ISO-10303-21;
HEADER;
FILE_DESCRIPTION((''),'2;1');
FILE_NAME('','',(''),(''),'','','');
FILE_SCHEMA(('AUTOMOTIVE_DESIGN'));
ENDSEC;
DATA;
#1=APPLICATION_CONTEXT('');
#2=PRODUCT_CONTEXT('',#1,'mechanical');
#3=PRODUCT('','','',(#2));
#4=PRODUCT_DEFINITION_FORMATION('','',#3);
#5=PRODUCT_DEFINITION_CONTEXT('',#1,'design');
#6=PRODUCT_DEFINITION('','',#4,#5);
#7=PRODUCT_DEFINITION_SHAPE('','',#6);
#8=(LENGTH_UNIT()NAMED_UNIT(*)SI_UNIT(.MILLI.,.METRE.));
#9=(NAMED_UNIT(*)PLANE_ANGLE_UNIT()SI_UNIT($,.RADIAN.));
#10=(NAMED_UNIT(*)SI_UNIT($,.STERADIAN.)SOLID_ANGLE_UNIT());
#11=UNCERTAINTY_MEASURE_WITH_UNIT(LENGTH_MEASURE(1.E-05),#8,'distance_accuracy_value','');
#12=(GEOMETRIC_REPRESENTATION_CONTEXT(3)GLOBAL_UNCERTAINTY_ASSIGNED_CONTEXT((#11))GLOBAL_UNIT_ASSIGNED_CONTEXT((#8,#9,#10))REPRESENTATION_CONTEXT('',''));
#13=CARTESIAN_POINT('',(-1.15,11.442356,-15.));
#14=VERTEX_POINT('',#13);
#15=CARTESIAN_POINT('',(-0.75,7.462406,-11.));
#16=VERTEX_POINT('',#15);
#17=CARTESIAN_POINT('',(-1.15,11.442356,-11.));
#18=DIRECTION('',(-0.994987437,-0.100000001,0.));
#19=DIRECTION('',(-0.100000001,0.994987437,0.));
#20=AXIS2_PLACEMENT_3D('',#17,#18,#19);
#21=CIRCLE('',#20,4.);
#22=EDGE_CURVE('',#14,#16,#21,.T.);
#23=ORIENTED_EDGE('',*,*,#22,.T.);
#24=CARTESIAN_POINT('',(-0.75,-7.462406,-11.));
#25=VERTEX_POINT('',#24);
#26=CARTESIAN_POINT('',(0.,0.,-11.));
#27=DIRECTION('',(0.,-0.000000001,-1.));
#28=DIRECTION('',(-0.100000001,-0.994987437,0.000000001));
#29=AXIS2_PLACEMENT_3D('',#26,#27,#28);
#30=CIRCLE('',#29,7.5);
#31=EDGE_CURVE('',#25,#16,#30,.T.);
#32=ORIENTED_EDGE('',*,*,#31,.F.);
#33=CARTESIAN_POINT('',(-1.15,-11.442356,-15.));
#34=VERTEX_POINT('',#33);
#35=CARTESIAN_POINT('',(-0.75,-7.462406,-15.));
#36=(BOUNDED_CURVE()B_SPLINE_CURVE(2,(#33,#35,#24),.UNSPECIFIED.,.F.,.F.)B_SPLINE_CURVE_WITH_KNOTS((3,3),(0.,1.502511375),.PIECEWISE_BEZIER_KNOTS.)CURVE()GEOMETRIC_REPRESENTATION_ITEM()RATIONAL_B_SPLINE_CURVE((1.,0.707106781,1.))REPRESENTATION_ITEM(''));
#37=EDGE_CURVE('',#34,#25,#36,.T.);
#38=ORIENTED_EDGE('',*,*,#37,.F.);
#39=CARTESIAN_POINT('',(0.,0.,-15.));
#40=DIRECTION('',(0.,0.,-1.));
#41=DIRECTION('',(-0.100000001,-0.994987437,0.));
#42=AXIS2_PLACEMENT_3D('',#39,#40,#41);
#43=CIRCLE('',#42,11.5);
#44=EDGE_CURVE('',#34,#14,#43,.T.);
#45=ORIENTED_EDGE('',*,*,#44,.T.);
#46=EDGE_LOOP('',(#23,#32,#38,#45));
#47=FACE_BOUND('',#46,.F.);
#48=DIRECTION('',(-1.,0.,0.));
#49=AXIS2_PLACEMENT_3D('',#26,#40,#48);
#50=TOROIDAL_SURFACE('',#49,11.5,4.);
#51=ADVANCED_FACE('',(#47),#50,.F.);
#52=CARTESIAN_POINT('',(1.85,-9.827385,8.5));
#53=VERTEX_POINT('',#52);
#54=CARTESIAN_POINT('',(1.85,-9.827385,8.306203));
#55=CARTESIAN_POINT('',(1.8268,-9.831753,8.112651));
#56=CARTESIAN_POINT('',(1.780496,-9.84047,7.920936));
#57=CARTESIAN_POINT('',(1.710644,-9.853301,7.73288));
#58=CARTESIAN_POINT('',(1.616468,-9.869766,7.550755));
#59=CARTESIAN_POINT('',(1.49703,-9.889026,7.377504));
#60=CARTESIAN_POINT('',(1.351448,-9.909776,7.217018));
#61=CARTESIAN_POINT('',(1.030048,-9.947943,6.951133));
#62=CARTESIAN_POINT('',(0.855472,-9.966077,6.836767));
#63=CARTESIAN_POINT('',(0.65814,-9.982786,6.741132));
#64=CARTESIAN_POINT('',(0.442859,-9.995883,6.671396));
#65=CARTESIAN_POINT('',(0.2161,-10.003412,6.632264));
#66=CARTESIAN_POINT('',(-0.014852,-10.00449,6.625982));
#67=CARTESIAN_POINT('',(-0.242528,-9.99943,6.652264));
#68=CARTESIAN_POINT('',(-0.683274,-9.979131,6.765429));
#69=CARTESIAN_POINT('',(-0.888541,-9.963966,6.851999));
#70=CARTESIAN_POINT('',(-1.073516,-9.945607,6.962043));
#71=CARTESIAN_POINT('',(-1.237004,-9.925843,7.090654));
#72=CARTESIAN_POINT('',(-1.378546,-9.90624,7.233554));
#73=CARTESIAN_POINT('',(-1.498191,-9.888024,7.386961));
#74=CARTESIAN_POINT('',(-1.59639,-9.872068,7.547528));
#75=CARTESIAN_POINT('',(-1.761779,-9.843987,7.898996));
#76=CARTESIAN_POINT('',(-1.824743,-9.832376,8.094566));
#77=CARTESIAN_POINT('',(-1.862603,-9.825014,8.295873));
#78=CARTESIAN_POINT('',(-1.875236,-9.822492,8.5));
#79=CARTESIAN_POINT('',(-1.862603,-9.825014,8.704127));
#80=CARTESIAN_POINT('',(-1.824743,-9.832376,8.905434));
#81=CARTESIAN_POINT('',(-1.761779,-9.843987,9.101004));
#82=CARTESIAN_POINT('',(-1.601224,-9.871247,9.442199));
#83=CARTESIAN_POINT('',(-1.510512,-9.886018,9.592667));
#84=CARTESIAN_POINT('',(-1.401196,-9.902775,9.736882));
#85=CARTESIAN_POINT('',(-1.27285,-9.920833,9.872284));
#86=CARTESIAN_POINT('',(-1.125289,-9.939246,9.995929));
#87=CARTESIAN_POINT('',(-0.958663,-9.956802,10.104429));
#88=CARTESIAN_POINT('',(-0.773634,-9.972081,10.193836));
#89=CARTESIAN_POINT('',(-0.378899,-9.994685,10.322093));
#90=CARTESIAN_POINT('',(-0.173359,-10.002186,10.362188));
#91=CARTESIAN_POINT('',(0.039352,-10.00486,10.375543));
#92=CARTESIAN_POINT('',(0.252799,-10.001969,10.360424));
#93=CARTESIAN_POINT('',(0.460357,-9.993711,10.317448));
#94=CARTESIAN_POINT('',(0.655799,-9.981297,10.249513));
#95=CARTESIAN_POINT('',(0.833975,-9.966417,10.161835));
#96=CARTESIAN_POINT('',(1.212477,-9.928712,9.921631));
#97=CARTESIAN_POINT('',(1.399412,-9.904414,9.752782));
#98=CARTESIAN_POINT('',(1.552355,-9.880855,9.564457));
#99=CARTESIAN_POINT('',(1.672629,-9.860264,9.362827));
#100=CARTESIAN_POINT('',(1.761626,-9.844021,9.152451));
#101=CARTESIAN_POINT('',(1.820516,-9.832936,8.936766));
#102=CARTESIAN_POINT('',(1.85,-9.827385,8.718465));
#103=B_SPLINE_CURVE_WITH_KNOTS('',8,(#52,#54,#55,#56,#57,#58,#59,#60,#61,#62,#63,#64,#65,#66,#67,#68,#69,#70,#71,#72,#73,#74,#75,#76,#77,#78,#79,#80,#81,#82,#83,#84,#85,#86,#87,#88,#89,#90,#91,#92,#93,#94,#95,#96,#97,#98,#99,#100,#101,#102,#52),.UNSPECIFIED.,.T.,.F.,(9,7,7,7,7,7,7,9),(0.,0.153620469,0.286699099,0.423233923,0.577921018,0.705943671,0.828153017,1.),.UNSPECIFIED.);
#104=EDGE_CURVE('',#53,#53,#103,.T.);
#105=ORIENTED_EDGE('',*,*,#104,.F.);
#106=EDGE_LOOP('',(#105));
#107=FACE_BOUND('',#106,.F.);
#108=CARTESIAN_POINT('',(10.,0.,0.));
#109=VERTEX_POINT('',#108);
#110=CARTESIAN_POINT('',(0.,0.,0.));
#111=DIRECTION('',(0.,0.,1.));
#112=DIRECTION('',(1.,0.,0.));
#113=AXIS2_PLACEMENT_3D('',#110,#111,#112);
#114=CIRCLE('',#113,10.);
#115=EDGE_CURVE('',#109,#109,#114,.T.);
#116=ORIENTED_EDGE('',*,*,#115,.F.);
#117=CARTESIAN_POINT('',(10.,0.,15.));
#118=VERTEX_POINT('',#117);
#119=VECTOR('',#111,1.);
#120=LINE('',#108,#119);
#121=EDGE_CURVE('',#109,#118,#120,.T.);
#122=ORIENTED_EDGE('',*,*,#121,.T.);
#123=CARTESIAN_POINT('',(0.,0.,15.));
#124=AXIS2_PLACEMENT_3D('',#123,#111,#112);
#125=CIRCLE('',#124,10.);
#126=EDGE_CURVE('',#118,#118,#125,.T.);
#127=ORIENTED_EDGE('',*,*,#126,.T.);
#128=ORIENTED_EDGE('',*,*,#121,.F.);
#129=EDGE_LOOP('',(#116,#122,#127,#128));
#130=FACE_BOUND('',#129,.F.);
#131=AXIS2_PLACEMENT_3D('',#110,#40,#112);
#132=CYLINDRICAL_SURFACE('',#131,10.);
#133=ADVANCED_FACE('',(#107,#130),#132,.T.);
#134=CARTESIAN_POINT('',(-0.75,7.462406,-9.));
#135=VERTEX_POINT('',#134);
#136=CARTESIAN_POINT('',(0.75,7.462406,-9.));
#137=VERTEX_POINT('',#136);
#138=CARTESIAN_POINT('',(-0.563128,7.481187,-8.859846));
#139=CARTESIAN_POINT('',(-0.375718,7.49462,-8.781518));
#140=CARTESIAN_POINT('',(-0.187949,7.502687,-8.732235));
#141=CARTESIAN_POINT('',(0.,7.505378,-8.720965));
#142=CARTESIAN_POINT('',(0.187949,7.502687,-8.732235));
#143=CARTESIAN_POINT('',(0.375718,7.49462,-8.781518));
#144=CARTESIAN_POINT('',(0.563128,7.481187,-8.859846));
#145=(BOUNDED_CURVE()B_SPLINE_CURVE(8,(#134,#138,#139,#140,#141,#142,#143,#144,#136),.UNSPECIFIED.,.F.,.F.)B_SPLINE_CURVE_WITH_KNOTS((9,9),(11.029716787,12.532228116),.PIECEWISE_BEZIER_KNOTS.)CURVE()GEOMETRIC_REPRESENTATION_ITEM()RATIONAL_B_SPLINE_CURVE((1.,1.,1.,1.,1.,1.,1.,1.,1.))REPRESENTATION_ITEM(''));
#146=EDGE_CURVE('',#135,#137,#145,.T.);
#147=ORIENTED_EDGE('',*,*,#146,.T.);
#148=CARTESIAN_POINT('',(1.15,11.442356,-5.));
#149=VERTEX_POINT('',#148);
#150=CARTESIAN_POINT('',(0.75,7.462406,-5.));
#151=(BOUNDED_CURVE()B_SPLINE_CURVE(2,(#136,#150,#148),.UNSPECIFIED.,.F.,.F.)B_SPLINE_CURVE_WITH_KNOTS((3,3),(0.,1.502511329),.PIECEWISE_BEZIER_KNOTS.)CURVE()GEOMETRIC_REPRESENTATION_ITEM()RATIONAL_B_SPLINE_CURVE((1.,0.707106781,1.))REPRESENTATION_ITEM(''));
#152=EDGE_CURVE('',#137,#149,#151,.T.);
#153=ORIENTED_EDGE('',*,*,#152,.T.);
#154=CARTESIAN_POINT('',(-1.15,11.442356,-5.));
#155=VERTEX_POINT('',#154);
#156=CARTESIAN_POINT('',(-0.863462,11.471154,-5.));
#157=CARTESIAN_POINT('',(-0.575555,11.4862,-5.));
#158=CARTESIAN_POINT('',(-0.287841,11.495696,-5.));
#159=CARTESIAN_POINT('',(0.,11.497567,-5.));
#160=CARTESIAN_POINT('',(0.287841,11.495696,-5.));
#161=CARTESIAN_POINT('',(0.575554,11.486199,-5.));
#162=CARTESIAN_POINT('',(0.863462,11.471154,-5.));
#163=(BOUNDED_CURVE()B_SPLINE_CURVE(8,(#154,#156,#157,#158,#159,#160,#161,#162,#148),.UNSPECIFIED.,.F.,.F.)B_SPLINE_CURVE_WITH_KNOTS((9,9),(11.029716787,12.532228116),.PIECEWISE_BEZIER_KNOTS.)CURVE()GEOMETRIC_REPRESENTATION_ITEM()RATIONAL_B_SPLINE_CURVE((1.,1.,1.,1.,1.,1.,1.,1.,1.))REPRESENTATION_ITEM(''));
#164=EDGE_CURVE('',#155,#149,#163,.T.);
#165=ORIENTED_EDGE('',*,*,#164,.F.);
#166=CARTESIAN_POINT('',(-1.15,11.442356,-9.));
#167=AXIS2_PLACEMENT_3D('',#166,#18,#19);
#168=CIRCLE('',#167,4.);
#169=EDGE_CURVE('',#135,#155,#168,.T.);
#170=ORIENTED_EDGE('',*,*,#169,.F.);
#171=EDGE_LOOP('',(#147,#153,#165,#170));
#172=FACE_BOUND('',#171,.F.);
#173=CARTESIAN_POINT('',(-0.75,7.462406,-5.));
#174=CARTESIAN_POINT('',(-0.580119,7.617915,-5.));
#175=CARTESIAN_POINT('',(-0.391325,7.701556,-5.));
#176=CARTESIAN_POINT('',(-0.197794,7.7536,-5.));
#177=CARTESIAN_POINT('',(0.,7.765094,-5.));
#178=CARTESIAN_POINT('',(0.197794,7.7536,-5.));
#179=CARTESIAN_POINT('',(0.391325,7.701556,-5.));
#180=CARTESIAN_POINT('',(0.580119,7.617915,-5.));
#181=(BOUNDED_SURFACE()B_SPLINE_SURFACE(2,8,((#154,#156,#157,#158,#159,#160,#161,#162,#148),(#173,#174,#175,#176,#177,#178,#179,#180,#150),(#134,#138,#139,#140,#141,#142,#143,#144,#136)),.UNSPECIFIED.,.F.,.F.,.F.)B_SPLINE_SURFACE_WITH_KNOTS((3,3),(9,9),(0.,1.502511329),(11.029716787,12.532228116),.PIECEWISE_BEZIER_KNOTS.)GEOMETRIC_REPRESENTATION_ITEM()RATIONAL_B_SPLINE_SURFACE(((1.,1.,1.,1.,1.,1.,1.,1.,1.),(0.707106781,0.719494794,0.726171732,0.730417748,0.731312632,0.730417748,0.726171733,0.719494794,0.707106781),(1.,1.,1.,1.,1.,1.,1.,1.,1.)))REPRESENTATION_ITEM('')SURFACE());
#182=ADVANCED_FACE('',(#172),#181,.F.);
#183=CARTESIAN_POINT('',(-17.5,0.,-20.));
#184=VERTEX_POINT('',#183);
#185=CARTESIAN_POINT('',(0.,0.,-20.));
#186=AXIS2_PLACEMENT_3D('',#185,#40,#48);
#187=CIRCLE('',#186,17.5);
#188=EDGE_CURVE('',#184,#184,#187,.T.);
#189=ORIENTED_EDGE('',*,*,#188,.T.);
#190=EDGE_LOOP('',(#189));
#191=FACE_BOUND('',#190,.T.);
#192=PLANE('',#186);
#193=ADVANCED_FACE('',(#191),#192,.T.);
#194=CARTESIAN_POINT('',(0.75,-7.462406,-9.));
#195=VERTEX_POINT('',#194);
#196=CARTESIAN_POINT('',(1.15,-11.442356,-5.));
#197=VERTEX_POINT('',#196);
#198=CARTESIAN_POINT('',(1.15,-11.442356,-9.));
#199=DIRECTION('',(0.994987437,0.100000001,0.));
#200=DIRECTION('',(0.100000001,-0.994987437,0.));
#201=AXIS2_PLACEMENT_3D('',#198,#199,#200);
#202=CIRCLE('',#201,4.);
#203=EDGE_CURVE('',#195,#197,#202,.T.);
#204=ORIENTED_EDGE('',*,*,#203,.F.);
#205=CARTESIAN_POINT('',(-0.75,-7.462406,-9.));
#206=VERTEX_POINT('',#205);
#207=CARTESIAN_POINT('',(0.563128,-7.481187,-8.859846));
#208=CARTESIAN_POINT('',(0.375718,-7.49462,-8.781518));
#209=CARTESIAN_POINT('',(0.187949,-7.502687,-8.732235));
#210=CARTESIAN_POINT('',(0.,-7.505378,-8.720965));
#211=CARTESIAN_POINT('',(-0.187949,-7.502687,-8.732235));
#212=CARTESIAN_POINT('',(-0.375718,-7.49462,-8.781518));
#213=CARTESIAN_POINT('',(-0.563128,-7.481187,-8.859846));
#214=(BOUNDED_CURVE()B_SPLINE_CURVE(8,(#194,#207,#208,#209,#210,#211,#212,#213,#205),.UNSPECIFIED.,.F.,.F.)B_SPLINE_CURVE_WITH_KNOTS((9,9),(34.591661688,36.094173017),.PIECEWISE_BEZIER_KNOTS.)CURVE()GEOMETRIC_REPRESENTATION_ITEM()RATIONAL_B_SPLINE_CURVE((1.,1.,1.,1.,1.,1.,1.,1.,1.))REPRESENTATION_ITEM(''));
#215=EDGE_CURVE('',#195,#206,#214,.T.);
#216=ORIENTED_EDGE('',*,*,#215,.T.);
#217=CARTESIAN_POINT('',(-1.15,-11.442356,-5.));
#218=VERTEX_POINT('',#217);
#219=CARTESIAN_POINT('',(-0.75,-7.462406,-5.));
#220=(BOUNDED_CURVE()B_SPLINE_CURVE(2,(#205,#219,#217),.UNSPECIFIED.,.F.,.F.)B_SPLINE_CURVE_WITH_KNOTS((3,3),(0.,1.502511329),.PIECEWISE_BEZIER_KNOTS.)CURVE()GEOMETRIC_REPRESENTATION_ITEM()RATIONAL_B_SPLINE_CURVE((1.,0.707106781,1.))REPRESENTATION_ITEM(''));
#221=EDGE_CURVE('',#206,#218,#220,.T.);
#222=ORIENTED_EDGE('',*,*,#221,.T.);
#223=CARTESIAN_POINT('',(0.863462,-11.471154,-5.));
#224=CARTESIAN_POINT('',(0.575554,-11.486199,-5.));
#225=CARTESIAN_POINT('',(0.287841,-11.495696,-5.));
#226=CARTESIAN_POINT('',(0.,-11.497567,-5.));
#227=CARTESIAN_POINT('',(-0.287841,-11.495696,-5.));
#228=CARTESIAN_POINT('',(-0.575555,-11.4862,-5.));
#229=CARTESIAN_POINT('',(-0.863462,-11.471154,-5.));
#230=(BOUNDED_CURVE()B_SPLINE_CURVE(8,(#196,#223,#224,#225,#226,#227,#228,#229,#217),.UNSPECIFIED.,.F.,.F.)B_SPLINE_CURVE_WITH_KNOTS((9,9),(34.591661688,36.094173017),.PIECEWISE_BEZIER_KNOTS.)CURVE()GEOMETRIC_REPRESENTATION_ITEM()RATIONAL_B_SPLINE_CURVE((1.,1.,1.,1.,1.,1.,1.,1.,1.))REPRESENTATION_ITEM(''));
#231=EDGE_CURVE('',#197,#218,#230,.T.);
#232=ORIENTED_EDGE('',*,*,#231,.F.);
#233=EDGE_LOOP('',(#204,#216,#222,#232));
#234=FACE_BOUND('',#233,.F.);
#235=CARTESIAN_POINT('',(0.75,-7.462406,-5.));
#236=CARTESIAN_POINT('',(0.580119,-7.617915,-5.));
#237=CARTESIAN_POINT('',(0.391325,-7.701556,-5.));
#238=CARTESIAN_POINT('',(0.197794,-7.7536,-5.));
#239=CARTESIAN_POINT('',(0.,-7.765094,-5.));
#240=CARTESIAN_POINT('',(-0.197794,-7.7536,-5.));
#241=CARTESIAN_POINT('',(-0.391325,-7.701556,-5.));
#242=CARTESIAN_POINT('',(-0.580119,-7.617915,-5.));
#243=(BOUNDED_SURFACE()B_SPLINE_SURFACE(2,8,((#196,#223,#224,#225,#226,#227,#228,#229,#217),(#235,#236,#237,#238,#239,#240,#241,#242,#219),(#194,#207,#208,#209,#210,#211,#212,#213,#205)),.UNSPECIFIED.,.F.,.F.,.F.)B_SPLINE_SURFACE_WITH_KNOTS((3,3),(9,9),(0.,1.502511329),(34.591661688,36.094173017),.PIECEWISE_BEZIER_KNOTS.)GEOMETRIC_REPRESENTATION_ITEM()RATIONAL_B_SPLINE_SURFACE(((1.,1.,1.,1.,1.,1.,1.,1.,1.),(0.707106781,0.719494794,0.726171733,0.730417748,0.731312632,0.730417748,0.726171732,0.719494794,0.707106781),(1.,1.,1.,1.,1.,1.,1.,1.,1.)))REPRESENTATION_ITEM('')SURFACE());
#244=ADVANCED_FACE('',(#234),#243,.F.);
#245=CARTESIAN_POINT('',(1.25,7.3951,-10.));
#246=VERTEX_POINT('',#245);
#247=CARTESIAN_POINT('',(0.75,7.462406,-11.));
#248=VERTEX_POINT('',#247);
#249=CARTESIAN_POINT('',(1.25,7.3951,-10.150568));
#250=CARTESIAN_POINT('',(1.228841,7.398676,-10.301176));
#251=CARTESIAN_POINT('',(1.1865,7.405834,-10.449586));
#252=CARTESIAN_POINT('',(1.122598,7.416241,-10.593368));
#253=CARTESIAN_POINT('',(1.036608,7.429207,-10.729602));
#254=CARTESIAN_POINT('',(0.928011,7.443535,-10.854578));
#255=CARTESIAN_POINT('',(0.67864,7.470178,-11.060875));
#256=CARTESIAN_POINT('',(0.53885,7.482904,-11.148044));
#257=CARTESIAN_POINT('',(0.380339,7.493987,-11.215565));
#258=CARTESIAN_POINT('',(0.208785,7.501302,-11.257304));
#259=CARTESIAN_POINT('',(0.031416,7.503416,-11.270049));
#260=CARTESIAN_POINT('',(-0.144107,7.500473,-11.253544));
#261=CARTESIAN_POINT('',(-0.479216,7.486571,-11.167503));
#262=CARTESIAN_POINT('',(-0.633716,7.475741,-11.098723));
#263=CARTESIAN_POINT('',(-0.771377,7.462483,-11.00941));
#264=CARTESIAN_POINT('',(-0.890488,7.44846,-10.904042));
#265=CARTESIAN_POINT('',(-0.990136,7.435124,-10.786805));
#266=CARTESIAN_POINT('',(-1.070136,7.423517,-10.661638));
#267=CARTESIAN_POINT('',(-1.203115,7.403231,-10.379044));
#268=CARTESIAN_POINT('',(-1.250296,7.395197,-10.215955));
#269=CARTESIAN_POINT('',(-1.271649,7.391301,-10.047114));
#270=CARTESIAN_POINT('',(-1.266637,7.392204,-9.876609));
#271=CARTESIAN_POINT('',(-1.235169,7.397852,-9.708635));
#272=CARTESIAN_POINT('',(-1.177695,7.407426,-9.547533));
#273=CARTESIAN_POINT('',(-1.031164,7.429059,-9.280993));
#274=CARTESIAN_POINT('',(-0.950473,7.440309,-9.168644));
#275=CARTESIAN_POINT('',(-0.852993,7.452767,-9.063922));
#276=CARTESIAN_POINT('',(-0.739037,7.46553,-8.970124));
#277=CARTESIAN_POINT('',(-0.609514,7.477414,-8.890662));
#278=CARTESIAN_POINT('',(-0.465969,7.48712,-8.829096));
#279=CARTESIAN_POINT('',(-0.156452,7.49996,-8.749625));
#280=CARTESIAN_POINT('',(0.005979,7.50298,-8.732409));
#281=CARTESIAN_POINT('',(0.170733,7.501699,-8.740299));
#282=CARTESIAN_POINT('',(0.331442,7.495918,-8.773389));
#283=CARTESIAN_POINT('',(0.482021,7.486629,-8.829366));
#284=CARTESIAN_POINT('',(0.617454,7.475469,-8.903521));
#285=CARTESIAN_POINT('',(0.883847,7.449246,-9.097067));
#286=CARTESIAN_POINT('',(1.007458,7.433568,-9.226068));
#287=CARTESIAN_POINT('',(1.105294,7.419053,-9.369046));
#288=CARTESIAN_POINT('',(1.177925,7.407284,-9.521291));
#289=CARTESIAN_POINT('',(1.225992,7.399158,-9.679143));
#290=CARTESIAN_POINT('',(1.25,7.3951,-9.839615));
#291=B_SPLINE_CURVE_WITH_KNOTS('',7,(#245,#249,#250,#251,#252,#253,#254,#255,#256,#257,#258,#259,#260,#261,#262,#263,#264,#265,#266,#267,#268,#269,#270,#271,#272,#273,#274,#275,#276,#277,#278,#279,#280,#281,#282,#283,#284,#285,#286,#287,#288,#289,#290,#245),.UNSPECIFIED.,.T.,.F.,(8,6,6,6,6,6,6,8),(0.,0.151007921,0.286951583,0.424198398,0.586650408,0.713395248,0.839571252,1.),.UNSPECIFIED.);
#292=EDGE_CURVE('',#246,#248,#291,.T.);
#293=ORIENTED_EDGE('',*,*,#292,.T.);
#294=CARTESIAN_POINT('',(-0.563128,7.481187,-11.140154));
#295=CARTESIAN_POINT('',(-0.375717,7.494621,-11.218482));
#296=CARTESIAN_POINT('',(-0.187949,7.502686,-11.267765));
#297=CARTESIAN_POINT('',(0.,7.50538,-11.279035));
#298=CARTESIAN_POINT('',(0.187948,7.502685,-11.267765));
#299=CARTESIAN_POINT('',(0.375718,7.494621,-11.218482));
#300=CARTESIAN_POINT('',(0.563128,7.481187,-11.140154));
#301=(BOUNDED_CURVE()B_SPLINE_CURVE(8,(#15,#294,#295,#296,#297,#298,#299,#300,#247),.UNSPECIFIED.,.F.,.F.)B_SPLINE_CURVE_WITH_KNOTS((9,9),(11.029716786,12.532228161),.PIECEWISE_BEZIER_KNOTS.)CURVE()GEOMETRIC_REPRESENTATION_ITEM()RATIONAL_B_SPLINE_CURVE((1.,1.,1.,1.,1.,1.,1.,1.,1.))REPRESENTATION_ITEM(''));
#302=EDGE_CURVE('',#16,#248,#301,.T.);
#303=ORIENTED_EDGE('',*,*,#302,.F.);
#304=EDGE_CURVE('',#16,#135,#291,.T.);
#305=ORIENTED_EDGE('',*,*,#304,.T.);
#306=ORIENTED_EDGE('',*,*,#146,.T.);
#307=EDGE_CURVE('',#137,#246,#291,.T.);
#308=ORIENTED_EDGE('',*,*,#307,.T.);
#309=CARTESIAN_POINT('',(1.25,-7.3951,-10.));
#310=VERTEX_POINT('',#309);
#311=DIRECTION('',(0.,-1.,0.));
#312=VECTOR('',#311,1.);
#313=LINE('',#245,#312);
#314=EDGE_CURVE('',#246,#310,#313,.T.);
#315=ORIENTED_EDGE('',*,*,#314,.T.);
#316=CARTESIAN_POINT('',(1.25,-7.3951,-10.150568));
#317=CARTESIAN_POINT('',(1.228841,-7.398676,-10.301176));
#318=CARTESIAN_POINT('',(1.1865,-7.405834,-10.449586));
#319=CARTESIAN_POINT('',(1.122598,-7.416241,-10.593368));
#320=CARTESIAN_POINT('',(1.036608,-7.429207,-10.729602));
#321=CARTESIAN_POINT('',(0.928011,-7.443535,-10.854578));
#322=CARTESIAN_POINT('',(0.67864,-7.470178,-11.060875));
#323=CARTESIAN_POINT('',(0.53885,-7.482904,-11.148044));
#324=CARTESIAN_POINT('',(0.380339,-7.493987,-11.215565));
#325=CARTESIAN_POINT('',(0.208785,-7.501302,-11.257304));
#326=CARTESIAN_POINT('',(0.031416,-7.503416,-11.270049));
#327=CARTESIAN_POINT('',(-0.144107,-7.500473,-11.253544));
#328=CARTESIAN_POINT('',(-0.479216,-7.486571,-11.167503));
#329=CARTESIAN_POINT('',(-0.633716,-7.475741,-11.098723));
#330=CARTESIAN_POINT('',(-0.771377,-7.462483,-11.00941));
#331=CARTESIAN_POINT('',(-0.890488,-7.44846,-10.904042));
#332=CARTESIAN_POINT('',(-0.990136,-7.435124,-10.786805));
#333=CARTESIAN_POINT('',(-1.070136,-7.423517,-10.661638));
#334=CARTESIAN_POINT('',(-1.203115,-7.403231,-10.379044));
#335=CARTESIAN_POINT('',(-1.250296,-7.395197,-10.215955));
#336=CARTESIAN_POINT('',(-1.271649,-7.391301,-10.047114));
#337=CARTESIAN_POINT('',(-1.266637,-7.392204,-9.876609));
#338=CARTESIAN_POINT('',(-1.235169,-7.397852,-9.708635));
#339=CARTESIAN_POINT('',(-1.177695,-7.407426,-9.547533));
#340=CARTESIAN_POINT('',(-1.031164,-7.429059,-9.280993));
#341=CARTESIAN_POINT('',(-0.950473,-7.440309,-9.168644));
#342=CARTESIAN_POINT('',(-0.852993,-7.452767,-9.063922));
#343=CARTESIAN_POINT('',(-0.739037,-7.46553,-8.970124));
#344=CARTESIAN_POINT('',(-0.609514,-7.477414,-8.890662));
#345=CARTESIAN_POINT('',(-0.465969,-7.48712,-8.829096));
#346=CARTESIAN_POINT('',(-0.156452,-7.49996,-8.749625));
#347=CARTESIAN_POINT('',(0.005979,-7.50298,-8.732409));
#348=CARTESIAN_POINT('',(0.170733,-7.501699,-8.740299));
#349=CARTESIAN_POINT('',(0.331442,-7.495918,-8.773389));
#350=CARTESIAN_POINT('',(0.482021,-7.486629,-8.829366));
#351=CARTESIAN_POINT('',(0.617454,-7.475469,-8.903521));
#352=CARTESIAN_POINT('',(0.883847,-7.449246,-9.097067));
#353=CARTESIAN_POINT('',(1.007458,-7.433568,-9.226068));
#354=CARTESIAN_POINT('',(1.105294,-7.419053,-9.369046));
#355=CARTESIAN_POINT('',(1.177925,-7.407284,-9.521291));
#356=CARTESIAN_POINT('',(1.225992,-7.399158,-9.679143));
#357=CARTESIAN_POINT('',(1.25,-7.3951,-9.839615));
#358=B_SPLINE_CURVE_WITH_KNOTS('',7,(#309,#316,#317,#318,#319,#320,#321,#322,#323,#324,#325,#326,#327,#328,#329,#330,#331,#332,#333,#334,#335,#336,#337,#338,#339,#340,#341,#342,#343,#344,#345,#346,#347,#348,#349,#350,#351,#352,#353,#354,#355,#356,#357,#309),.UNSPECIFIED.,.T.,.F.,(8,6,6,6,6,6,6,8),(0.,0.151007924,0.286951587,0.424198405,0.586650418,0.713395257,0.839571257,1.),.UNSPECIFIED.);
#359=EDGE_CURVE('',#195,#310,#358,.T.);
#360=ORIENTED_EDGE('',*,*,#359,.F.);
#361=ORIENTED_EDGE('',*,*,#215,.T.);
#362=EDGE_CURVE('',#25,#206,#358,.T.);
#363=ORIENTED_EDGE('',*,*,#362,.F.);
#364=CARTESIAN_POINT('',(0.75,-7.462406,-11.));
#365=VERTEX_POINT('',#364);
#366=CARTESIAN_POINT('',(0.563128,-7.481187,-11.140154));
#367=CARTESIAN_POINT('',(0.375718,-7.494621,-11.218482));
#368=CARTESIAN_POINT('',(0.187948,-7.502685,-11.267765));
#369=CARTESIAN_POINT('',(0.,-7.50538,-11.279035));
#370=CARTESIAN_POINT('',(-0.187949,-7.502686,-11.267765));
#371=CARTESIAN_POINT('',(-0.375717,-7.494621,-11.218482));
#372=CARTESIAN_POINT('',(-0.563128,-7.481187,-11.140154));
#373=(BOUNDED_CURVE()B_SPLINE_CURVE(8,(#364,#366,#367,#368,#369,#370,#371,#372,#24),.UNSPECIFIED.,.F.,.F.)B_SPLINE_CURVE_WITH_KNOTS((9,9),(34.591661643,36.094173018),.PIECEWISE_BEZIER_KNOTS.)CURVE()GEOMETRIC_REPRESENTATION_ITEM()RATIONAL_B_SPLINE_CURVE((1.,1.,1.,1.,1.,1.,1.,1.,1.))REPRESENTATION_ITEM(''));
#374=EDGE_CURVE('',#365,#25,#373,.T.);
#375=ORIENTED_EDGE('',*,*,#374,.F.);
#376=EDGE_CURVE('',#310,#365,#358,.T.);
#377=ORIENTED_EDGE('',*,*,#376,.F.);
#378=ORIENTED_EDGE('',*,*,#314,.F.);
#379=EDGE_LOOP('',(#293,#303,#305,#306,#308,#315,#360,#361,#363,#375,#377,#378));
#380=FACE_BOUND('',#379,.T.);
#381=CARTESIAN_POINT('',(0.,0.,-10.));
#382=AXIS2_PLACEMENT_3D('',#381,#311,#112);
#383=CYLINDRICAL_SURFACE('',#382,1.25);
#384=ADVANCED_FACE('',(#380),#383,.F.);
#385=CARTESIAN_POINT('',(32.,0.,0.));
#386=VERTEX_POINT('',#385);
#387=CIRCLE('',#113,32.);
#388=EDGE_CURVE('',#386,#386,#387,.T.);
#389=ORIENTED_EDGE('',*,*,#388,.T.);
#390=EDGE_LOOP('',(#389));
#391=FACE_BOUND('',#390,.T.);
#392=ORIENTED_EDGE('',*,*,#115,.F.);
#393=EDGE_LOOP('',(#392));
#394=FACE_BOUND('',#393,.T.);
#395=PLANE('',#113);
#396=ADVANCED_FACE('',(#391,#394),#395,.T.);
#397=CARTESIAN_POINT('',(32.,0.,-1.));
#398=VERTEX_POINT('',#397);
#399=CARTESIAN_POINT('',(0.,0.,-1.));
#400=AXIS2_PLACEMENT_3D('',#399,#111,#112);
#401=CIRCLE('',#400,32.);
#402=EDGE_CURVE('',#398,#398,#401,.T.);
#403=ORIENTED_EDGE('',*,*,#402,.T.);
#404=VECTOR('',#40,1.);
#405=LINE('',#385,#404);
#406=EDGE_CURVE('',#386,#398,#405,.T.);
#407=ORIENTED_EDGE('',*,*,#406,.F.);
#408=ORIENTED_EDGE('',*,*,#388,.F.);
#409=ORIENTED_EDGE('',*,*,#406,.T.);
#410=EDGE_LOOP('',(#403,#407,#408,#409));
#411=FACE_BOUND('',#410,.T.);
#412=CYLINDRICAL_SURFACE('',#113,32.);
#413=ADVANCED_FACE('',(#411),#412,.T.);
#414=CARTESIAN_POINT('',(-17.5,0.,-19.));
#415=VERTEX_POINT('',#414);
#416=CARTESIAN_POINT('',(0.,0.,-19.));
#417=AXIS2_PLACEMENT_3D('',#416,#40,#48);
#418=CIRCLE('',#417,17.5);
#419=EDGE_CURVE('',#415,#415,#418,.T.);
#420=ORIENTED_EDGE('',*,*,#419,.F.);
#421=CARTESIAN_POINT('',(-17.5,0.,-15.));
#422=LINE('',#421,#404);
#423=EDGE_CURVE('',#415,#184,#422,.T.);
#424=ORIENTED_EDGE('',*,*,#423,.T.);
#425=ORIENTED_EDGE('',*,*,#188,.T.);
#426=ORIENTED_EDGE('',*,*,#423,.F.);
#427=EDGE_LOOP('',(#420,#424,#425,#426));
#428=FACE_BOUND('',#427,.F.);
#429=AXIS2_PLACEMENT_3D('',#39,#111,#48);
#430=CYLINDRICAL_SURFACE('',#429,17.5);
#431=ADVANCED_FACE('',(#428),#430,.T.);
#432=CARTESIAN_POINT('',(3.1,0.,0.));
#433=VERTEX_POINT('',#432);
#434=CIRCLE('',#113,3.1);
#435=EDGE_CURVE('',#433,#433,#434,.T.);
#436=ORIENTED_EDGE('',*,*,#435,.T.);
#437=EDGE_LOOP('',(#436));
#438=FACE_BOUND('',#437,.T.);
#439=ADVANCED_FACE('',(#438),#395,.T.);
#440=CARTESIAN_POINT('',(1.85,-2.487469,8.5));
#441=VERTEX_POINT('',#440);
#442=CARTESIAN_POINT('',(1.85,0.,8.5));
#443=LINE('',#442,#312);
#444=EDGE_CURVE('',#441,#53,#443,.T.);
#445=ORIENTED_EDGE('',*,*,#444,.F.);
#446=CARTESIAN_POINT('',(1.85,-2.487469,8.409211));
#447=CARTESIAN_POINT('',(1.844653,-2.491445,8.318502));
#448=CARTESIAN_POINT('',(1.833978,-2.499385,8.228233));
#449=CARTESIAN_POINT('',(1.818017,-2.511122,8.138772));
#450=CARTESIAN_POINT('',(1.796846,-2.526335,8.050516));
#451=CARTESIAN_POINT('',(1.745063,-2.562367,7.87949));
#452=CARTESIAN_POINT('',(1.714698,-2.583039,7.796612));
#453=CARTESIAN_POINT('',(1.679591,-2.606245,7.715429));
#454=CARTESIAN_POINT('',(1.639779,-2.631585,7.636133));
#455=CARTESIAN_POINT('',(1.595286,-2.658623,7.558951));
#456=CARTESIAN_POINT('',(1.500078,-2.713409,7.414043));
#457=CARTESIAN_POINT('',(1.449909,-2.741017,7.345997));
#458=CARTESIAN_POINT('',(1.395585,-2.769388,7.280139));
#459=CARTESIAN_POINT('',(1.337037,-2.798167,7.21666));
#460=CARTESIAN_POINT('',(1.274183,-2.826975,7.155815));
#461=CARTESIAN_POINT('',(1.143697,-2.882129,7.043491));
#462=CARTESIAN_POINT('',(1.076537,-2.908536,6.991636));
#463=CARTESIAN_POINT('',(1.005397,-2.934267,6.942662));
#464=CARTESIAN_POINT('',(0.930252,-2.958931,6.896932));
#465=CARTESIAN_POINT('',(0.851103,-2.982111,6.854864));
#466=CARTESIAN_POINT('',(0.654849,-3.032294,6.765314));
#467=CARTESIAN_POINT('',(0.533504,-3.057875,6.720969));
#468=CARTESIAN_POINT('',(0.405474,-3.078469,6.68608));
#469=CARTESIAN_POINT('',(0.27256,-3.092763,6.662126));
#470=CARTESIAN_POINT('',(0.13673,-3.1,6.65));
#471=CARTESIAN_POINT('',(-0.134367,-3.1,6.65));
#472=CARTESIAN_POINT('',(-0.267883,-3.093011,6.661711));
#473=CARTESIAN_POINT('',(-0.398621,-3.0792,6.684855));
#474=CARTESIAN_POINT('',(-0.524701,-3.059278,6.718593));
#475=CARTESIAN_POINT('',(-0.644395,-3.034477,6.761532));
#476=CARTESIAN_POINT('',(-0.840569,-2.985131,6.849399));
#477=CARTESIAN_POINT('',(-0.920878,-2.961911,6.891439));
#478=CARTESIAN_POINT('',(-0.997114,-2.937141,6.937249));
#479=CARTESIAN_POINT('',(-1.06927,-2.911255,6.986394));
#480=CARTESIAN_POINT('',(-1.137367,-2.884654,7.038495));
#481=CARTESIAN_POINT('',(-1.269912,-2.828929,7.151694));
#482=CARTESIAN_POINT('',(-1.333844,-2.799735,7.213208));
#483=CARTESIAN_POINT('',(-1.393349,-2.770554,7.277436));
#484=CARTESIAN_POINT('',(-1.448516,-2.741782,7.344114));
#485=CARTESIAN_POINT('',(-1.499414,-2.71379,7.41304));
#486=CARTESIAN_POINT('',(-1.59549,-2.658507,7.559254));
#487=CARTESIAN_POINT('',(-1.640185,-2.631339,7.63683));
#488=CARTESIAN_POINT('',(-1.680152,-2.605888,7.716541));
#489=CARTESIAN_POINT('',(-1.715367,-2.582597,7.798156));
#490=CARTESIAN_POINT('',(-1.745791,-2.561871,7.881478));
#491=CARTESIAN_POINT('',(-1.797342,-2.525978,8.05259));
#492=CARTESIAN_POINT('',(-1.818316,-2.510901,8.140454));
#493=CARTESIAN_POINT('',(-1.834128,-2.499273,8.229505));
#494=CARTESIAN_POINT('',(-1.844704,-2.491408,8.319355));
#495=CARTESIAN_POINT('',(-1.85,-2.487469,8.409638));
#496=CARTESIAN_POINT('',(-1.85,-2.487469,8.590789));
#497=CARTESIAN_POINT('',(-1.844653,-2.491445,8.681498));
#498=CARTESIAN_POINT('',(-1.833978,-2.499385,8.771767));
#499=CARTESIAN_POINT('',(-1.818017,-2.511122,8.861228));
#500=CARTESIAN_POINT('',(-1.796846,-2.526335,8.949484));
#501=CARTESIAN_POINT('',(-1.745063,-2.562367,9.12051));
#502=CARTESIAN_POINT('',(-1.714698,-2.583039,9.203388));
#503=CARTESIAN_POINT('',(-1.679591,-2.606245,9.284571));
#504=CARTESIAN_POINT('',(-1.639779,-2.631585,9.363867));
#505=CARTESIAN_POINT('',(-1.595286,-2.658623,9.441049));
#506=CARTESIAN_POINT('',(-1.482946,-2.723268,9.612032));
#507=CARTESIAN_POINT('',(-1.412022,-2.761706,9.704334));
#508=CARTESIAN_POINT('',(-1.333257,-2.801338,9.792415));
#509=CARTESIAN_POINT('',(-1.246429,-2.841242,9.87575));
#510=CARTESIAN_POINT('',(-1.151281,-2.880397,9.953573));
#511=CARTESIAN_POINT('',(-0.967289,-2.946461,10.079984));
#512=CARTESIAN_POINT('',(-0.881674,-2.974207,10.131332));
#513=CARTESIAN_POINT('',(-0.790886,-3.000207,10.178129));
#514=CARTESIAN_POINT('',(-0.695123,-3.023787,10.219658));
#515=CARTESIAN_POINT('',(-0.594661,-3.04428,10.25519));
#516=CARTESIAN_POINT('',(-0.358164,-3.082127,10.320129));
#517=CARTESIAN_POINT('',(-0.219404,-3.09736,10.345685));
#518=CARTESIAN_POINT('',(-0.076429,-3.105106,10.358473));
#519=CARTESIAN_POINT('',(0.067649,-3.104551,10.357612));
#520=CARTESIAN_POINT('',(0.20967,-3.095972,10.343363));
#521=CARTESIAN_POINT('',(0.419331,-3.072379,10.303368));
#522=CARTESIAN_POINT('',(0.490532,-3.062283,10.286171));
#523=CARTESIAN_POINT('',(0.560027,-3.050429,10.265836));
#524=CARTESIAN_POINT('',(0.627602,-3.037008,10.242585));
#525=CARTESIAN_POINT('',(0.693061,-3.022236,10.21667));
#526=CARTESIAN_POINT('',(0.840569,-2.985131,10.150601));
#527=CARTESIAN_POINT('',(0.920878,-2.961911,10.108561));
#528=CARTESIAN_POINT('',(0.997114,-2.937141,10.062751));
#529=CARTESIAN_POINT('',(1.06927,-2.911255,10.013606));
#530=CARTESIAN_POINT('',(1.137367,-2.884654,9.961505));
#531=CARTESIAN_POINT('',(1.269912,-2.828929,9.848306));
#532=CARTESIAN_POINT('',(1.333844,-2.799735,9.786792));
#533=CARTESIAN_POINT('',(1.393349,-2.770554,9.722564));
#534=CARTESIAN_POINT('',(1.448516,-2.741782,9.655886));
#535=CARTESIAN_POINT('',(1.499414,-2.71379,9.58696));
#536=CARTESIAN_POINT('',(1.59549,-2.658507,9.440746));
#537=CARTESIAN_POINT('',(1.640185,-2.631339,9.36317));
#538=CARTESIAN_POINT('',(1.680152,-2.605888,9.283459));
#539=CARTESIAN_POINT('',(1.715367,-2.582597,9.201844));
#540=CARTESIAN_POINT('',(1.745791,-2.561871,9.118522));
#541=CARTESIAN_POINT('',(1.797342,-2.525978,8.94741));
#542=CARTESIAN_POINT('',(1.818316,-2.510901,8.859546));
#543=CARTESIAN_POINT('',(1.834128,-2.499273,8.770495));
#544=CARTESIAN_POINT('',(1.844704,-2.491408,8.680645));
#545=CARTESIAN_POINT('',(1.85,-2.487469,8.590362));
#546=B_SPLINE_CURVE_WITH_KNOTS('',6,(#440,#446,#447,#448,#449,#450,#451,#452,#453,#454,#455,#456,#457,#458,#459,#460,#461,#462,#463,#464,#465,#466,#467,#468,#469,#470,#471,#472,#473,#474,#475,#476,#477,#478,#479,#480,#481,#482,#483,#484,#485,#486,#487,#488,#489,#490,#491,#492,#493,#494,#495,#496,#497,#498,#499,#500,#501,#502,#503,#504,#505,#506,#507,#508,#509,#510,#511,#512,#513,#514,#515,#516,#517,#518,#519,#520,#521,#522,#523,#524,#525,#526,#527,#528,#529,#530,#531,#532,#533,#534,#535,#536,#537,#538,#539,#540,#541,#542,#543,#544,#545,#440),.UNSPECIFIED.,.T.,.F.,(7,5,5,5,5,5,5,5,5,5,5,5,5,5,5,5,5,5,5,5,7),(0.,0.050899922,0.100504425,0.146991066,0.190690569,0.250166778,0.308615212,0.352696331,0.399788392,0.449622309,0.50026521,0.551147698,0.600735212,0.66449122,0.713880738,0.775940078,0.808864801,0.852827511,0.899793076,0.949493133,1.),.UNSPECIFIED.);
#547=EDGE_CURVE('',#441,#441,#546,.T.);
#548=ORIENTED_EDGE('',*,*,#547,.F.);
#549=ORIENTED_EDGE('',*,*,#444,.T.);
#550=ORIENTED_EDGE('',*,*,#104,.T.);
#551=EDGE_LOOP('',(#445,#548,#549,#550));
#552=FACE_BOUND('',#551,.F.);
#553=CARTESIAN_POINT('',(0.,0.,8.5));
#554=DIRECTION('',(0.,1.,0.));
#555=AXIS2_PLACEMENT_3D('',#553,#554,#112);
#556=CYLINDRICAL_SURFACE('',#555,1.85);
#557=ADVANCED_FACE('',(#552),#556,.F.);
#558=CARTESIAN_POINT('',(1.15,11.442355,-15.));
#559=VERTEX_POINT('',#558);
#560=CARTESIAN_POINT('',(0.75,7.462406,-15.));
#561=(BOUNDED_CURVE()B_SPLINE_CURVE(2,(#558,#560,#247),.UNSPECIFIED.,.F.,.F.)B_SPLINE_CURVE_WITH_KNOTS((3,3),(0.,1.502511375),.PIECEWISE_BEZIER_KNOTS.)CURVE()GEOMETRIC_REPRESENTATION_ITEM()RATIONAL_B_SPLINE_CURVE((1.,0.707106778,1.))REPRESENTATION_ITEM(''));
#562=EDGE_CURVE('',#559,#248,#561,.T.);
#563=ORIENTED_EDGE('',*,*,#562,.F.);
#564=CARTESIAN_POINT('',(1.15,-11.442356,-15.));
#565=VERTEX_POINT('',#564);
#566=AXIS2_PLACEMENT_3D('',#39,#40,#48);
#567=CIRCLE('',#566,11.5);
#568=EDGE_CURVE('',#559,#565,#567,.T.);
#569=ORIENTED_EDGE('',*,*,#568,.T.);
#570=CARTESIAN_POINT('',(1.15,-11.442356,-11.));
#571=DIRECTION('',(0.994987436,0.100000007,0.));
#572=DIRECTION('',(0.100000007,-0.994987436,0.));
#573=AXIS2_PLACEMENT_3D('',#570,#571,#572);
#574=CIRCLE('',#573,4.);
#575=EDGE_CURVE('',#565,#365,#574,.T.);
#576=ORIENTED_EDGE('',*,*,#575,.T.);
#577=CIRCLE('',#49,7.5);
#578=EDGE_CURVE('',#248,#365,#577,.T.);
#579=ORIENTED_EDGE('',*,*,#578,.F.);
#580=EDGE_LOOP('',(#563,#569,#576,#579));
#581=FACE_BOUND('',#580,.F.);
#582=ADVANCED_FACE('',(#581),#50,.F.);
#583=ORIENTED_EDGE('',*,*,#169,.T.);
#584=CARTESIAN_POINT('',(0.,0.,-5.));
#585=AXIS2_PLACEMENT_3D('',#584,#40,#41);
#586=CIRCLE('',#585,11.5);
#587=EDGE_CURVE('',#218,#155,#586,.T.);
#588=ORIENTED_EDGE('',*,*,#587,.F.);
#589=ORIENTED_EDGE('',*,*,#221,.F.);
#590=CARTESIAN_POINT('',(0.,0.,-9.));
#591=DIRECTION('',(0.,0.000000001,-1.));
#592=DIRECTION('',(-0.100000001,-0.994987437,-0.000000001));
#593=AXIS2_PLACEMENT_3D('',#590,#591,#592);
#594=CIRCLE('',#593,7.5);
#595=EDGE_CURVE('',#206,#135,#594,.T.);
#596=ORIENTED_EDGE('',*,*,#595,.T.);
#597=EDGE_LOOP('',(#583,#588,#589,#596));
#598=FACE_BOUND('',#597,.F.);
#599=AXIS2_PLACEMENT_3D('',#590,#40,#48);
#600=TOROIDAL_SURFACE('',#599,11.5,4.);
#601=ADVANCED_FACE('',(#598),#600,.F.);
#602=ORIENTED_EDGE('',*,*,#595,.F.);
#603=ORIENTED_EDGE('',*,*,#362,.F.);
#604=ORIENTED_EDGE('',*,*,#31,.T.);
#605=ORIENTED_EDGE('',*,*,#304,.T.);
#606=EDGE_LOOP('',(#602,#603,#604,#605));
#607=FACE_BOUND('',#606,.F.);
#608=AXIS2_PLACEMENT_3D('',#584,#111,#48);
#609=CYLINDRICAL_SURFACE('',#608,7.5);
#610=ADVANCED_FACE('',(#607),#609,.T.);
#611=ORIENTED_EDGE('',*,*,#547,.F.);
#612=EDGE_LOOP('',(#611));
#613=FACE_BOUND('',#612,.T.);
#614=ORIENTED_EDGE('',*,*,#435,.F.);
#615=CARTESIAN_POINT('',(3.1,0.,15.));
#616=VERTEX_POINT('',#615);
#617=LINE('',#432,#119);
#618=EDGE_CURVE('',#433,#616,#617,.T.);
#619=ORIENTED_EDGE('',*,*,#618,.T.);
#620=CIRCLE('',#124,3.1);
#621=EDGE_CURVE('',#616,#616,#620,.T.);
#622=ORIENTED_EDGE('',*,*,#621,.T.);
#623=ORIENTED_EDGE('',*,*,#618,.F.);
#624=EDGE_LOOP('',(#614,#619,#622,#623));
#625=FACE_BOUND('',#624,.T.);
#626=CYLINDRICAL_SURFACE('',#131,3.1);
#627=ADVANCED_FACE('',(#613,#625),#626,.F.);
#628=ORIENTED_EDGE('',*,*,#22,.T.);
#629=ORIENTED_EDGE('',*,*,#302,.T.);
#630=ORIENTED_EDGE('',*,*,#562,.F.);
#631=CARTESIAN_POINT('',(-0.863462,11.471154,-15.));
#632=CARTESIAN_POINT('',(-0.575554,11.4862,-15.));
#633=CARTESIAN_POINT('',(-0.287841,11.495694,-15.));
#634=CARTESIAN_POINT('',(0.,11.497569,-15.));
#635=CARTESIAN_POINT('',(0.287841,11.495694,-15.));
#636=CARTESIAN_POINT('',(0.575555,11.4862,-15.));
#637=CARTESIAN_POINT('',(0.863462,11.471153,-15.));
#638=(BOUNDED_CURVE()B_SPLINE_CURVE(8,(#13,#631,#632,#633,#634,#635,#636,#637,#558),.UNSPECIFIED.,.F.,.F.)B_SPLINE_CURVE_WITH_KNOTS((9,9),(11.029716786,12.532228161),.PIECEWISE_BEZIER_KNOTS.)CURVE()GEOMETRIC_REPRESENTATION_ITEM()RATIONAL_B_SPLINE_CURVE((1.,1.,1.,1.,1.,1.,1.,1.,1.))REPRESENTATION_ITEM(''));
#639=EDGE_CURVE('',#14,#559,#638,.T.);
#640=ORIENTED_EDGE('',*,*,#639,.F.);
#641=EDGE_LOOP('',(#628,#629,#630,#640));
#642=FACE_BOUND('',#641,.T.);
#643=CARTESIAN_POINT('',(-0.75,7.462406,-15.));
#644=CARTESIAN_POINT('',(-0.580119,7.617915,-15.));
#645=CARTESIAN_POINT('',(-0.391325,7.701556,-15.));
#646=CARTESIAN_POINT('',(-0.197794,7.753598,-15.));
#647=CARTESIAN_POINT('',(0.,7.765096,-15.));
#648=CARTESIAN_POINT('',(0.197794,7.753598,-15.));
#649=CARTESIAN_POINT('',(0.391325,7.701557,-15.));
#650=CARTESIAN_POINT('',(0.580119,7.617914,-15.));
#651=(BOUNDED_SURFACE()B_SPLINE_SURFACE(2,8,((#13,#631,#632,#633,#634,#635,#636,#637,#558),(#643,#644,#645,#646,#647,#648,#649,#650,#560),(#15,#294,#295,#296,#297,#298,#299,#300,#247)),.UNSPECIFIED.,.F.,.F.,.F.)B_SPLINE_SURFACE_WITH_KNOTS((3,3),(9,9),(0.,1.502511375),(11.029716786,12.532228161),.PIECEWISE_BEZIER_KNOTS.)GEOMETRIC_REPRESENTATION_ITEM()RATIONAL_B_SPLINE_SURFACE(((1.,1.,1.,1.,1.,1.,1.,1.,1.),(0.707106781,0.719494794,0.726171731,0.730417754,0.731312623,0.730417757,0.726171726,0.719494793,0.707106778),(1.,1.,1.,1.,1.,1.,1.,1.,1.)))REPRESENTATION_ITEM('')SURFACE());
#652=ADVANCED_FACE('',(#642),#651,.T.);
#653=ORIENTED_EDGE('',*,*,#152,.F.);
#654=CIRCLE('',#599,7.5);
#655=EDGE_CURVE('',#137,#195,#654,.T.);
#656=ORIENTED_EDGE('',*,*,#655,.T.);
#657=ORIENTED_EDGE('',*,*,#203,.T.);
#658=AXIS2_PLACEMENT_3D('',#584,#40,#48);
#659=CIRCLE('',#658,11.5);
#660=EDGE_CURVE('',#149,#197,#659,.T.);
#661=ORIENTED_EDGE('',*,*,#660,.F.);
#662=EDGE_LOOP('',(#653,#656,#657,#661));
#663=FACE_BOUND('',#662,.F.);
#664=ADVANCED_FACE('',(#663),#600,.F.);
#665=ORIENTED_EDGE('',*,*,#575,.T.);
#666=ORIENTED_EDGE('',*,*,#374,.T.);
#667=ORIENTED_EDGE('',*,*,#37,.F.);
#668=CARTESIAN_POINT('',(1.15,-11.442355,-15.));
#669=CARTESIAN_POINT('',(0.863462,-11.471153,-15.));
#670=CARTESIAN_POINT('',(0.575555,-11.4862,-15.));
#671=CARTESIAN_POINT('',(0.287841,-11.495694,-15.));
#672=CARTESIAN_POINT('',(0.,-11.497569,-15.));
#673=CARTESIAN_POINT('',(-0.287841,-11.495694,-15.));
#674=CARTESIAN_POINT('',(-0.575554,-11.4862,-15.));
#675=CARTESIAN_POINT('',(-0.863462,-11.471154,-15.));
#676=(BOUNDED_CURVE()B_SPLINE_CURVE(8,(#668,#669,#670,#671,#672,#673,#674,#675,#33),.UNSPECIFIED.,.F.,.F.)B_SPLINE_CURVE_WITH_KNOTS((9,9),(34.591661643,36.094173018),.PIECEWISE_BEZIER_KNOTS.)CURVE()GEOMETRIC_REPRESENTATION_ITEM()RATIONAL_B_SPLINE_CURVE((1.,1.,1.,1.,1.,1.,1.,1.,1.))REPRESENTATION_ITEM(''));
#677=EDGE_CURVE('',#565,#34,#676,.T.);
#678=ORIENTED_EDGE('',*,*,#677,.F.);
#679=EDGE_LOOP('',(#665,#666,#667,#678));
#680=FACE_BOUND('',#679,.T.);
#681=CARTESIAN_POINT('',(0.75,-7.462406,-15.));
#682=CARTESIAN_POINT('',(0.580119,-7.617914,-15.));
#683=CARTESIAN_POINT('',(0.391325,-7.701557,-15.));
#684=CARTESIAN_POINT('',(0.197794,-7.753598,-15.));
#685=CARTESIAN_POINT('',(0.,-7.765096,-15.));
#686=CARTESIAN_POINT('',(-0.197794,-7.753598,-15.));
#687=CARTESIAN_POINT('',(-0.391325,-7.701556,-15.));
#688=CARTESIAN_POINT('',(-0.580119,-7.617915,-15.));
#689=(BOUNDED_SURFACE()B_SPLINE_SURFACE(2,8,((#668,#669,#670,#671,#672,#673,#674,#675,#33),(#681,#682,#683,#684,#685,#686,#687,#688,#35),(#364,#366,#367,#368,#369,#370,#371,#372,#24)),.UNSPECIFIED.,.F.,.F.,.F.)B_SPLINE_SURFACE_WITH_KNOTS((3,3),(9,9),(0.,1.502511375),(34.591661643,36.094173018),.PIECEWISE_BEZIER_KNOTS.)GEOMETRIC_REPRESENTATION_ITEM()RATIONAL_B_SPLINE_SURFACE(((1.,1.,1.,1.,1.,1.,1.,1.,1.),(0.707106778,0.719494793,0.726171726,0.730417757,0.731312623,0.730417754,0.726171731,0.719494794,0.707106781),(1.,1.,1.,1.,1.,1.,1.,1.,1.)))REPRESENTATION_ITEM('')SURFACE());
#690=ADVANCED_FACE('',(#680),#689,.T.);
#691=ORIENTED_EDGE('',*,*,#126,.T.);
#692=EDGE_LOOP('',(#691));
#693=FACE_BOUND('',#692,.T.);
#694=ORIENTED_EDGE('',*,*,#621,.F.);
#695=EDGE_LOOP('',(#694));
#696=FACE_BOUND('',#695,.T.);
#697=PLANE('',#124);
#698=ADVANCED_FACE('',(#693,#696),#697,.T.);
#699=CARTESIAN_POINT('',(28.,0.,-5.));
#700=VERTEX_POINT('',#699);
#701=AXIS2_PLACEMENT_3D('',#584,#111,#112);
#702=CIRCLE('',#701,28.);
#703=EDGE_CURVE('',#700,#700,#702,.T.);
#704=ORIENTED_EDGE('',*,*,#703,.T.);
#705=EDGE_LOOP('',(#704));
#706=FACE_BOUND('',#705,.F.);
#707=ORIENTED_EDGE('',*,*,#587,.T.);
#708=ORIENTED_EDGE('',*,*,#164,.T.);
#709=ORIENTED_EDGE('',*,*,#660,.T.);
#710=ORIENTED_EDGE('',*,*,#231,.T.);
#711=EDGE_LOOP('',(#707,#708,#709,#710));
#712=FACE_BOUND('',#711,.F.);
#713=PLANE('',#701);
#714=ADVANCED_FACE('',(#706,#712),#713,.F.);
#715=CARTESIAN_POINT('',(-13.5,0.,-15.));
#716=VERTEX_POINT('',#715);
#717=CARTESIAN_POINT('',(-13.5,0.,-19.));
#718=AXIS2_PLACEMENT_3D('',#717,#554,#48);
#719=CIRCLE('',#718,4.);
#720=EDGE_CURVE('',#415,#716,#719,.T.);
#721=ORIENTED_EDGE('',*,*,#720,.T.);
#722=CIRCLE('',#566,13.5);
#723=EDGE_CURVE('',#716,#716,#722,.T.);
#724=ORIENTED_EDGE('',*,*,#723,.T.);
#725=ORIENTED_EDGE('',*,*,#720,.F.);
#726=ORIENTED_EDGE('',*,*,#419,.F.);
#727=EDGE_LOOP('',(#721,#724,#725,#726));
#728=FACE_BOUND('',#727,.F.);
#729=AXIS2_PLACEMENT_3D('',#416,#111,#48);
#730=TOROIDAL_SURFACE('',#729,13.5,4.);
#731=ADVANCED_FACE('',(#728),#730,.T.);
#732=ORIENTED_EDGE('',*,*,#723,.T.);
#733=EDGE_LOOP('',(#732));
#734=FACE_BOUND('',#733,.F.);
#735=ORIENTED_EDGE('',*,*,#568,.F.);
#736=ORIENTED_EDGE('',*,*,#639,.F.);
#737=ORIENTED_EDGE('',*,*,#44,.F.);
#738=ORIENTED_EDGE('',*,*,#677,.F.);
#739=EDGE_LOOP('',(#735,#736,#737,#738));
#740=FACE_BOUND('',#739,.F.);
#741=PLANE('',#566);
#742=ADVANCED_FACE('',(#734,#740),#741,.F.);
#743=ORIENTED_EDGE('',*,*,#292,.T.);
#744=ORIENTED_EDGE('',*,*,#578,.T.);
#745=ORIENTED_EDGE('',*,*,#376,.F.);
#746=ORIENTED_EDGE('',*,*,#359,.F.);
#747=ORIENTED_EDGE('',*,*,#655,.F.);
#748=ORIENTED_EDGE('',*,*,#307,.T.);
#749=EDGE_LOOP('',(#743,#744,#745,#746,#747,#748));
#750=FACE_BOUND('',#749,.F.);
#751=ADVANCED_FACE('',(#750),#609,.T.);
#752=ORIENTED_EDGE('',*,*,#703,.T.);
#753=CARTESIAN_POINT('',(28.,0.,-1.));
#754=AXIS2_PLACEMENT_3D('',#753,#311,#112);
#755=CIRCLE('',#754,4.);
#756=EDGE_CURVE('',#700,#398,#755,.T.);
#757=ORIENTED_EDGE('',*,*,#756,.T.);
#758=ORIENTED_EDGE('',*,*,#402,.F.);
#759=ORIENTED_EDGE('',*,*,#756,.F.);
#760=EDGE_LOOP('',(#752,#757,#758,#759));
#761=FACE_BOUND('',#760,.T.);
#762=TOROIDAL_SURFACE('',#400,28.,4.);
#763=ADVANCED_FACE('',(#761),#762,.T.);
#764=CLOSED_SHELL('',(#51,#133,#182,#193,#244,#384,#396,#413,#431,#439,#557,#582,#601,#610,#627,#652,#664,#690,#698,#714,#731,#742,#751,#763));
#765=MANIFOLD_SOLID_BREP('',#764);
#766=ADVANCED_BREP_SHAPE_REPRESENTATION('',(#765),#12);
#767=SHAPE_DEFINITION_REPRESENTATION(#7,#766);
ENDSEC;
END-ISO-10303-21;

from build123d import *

# Parameters (mm, degrees)
SKETCH_1_R               = 10
SKETCH_1_R_2             = 3.1
EXTRUDE_1_DEPTH          = 15
SKETCH_2_R               = 32
EXTRUDE_2_DEPTH          = 5
SKETCH_3_R               = 7.5
EXTRUDE_3_DEPTH          = 10
SKETCH_4_R               = 17.5
EXTRUDE_4_DEPTH          = 5
SKETCH_5_R               = 1.85
CUT_EXTRUDE_1_DEPTH      = 33
SKETCH_5_3_R             = 1.25
CUT_EXTRUDE_2_DEPTH      = 33
CUT_EXTRUDE_2_DEPTH_BACK = 33
FILLET_1_R               = 4


with BuildPart() as part:
    # Sketch 1 → Extrude 1 (new body)
    with BuildSketch(Plane.XY):
        Circle(SKETCH_1_R)
        Circle(SKETCH_1_R_2, mode=Mode.SUBTRACT)
    extrude(amount=EXTRUDE_1_DEPTH)

    # Sketch 2 → Extrude 2 (add)
    with BuildSketch(Plane.XY):
        Circle(SKETCH_2_R)
    extrude(amount=-EXTRUDE_2_DEPTH)

    # Sketch 3 → Extrude 3 (add)
    with BuildSketch(Plane(origin=(0, 0, -5), x_dir=(-1, 0, 0), z_dir=(0, 0, -1))):
        Circle(SKETCH_3_R)
    extrude(amount=EXTRUDE_3_DEPTH)

    # Sketch 4 → Extrude 4 (add)
    with BuildSketch(Plane(origin=(0, 0, -15), x_dir=(-1, 0, 0), z_dir=(0, 0, -1))):
        Circle(SKETCH_4_R)
    extrude(amount=EXTRUDE_4_DEPTH)

    # Sketch 5 → Cut-Extrude 1 (cut, through all)
    with BuildSketch(Plane(origin=(0, 0, 0), x_dir=(1, 0, 0), z_dir=(0, 1, 0))):
        with Locations((0, -8.5)):
            Circle(SKETCH_5_R)
    extrude(amount=-CUT_EXTRUDE_1_DEPTH, mode=Mode.SUBTRACT)

    # Sketch 5_3 → Cut-Extrude 2 (cut, two sides)
    with BuildSketch(Plane(origin=(0, 0, 0), x_dir=(1, 0, 0), z_dir=(0, 1, 0))) as cut_extrude_2_sk:
        with Locations((0, 10)):
            Circle(SKETCH_5_3_R)
    extrude(amount=CUT_EXTRUDE_2_DEPTH, mode=Mode.SUBTRACT)
    extrude(cut_extrude_2_sk.sketch, amount=-CUT_EXTRUDE_2_DEPTH_BACK, mode=Mode.SUBTRACT)

    # Fillet 1
    fillet_1_edges = [part.edges().sort_by_distance(p)[0] for p in [
        (-32, 0, -5),
        (7.5, 0, -5),
        (7.5, 0, -15),
        (17.5, 0, -15),
    ]]
    fillet(fillet_1_edges, radius=FILLET_1_R)


solid = part.part
